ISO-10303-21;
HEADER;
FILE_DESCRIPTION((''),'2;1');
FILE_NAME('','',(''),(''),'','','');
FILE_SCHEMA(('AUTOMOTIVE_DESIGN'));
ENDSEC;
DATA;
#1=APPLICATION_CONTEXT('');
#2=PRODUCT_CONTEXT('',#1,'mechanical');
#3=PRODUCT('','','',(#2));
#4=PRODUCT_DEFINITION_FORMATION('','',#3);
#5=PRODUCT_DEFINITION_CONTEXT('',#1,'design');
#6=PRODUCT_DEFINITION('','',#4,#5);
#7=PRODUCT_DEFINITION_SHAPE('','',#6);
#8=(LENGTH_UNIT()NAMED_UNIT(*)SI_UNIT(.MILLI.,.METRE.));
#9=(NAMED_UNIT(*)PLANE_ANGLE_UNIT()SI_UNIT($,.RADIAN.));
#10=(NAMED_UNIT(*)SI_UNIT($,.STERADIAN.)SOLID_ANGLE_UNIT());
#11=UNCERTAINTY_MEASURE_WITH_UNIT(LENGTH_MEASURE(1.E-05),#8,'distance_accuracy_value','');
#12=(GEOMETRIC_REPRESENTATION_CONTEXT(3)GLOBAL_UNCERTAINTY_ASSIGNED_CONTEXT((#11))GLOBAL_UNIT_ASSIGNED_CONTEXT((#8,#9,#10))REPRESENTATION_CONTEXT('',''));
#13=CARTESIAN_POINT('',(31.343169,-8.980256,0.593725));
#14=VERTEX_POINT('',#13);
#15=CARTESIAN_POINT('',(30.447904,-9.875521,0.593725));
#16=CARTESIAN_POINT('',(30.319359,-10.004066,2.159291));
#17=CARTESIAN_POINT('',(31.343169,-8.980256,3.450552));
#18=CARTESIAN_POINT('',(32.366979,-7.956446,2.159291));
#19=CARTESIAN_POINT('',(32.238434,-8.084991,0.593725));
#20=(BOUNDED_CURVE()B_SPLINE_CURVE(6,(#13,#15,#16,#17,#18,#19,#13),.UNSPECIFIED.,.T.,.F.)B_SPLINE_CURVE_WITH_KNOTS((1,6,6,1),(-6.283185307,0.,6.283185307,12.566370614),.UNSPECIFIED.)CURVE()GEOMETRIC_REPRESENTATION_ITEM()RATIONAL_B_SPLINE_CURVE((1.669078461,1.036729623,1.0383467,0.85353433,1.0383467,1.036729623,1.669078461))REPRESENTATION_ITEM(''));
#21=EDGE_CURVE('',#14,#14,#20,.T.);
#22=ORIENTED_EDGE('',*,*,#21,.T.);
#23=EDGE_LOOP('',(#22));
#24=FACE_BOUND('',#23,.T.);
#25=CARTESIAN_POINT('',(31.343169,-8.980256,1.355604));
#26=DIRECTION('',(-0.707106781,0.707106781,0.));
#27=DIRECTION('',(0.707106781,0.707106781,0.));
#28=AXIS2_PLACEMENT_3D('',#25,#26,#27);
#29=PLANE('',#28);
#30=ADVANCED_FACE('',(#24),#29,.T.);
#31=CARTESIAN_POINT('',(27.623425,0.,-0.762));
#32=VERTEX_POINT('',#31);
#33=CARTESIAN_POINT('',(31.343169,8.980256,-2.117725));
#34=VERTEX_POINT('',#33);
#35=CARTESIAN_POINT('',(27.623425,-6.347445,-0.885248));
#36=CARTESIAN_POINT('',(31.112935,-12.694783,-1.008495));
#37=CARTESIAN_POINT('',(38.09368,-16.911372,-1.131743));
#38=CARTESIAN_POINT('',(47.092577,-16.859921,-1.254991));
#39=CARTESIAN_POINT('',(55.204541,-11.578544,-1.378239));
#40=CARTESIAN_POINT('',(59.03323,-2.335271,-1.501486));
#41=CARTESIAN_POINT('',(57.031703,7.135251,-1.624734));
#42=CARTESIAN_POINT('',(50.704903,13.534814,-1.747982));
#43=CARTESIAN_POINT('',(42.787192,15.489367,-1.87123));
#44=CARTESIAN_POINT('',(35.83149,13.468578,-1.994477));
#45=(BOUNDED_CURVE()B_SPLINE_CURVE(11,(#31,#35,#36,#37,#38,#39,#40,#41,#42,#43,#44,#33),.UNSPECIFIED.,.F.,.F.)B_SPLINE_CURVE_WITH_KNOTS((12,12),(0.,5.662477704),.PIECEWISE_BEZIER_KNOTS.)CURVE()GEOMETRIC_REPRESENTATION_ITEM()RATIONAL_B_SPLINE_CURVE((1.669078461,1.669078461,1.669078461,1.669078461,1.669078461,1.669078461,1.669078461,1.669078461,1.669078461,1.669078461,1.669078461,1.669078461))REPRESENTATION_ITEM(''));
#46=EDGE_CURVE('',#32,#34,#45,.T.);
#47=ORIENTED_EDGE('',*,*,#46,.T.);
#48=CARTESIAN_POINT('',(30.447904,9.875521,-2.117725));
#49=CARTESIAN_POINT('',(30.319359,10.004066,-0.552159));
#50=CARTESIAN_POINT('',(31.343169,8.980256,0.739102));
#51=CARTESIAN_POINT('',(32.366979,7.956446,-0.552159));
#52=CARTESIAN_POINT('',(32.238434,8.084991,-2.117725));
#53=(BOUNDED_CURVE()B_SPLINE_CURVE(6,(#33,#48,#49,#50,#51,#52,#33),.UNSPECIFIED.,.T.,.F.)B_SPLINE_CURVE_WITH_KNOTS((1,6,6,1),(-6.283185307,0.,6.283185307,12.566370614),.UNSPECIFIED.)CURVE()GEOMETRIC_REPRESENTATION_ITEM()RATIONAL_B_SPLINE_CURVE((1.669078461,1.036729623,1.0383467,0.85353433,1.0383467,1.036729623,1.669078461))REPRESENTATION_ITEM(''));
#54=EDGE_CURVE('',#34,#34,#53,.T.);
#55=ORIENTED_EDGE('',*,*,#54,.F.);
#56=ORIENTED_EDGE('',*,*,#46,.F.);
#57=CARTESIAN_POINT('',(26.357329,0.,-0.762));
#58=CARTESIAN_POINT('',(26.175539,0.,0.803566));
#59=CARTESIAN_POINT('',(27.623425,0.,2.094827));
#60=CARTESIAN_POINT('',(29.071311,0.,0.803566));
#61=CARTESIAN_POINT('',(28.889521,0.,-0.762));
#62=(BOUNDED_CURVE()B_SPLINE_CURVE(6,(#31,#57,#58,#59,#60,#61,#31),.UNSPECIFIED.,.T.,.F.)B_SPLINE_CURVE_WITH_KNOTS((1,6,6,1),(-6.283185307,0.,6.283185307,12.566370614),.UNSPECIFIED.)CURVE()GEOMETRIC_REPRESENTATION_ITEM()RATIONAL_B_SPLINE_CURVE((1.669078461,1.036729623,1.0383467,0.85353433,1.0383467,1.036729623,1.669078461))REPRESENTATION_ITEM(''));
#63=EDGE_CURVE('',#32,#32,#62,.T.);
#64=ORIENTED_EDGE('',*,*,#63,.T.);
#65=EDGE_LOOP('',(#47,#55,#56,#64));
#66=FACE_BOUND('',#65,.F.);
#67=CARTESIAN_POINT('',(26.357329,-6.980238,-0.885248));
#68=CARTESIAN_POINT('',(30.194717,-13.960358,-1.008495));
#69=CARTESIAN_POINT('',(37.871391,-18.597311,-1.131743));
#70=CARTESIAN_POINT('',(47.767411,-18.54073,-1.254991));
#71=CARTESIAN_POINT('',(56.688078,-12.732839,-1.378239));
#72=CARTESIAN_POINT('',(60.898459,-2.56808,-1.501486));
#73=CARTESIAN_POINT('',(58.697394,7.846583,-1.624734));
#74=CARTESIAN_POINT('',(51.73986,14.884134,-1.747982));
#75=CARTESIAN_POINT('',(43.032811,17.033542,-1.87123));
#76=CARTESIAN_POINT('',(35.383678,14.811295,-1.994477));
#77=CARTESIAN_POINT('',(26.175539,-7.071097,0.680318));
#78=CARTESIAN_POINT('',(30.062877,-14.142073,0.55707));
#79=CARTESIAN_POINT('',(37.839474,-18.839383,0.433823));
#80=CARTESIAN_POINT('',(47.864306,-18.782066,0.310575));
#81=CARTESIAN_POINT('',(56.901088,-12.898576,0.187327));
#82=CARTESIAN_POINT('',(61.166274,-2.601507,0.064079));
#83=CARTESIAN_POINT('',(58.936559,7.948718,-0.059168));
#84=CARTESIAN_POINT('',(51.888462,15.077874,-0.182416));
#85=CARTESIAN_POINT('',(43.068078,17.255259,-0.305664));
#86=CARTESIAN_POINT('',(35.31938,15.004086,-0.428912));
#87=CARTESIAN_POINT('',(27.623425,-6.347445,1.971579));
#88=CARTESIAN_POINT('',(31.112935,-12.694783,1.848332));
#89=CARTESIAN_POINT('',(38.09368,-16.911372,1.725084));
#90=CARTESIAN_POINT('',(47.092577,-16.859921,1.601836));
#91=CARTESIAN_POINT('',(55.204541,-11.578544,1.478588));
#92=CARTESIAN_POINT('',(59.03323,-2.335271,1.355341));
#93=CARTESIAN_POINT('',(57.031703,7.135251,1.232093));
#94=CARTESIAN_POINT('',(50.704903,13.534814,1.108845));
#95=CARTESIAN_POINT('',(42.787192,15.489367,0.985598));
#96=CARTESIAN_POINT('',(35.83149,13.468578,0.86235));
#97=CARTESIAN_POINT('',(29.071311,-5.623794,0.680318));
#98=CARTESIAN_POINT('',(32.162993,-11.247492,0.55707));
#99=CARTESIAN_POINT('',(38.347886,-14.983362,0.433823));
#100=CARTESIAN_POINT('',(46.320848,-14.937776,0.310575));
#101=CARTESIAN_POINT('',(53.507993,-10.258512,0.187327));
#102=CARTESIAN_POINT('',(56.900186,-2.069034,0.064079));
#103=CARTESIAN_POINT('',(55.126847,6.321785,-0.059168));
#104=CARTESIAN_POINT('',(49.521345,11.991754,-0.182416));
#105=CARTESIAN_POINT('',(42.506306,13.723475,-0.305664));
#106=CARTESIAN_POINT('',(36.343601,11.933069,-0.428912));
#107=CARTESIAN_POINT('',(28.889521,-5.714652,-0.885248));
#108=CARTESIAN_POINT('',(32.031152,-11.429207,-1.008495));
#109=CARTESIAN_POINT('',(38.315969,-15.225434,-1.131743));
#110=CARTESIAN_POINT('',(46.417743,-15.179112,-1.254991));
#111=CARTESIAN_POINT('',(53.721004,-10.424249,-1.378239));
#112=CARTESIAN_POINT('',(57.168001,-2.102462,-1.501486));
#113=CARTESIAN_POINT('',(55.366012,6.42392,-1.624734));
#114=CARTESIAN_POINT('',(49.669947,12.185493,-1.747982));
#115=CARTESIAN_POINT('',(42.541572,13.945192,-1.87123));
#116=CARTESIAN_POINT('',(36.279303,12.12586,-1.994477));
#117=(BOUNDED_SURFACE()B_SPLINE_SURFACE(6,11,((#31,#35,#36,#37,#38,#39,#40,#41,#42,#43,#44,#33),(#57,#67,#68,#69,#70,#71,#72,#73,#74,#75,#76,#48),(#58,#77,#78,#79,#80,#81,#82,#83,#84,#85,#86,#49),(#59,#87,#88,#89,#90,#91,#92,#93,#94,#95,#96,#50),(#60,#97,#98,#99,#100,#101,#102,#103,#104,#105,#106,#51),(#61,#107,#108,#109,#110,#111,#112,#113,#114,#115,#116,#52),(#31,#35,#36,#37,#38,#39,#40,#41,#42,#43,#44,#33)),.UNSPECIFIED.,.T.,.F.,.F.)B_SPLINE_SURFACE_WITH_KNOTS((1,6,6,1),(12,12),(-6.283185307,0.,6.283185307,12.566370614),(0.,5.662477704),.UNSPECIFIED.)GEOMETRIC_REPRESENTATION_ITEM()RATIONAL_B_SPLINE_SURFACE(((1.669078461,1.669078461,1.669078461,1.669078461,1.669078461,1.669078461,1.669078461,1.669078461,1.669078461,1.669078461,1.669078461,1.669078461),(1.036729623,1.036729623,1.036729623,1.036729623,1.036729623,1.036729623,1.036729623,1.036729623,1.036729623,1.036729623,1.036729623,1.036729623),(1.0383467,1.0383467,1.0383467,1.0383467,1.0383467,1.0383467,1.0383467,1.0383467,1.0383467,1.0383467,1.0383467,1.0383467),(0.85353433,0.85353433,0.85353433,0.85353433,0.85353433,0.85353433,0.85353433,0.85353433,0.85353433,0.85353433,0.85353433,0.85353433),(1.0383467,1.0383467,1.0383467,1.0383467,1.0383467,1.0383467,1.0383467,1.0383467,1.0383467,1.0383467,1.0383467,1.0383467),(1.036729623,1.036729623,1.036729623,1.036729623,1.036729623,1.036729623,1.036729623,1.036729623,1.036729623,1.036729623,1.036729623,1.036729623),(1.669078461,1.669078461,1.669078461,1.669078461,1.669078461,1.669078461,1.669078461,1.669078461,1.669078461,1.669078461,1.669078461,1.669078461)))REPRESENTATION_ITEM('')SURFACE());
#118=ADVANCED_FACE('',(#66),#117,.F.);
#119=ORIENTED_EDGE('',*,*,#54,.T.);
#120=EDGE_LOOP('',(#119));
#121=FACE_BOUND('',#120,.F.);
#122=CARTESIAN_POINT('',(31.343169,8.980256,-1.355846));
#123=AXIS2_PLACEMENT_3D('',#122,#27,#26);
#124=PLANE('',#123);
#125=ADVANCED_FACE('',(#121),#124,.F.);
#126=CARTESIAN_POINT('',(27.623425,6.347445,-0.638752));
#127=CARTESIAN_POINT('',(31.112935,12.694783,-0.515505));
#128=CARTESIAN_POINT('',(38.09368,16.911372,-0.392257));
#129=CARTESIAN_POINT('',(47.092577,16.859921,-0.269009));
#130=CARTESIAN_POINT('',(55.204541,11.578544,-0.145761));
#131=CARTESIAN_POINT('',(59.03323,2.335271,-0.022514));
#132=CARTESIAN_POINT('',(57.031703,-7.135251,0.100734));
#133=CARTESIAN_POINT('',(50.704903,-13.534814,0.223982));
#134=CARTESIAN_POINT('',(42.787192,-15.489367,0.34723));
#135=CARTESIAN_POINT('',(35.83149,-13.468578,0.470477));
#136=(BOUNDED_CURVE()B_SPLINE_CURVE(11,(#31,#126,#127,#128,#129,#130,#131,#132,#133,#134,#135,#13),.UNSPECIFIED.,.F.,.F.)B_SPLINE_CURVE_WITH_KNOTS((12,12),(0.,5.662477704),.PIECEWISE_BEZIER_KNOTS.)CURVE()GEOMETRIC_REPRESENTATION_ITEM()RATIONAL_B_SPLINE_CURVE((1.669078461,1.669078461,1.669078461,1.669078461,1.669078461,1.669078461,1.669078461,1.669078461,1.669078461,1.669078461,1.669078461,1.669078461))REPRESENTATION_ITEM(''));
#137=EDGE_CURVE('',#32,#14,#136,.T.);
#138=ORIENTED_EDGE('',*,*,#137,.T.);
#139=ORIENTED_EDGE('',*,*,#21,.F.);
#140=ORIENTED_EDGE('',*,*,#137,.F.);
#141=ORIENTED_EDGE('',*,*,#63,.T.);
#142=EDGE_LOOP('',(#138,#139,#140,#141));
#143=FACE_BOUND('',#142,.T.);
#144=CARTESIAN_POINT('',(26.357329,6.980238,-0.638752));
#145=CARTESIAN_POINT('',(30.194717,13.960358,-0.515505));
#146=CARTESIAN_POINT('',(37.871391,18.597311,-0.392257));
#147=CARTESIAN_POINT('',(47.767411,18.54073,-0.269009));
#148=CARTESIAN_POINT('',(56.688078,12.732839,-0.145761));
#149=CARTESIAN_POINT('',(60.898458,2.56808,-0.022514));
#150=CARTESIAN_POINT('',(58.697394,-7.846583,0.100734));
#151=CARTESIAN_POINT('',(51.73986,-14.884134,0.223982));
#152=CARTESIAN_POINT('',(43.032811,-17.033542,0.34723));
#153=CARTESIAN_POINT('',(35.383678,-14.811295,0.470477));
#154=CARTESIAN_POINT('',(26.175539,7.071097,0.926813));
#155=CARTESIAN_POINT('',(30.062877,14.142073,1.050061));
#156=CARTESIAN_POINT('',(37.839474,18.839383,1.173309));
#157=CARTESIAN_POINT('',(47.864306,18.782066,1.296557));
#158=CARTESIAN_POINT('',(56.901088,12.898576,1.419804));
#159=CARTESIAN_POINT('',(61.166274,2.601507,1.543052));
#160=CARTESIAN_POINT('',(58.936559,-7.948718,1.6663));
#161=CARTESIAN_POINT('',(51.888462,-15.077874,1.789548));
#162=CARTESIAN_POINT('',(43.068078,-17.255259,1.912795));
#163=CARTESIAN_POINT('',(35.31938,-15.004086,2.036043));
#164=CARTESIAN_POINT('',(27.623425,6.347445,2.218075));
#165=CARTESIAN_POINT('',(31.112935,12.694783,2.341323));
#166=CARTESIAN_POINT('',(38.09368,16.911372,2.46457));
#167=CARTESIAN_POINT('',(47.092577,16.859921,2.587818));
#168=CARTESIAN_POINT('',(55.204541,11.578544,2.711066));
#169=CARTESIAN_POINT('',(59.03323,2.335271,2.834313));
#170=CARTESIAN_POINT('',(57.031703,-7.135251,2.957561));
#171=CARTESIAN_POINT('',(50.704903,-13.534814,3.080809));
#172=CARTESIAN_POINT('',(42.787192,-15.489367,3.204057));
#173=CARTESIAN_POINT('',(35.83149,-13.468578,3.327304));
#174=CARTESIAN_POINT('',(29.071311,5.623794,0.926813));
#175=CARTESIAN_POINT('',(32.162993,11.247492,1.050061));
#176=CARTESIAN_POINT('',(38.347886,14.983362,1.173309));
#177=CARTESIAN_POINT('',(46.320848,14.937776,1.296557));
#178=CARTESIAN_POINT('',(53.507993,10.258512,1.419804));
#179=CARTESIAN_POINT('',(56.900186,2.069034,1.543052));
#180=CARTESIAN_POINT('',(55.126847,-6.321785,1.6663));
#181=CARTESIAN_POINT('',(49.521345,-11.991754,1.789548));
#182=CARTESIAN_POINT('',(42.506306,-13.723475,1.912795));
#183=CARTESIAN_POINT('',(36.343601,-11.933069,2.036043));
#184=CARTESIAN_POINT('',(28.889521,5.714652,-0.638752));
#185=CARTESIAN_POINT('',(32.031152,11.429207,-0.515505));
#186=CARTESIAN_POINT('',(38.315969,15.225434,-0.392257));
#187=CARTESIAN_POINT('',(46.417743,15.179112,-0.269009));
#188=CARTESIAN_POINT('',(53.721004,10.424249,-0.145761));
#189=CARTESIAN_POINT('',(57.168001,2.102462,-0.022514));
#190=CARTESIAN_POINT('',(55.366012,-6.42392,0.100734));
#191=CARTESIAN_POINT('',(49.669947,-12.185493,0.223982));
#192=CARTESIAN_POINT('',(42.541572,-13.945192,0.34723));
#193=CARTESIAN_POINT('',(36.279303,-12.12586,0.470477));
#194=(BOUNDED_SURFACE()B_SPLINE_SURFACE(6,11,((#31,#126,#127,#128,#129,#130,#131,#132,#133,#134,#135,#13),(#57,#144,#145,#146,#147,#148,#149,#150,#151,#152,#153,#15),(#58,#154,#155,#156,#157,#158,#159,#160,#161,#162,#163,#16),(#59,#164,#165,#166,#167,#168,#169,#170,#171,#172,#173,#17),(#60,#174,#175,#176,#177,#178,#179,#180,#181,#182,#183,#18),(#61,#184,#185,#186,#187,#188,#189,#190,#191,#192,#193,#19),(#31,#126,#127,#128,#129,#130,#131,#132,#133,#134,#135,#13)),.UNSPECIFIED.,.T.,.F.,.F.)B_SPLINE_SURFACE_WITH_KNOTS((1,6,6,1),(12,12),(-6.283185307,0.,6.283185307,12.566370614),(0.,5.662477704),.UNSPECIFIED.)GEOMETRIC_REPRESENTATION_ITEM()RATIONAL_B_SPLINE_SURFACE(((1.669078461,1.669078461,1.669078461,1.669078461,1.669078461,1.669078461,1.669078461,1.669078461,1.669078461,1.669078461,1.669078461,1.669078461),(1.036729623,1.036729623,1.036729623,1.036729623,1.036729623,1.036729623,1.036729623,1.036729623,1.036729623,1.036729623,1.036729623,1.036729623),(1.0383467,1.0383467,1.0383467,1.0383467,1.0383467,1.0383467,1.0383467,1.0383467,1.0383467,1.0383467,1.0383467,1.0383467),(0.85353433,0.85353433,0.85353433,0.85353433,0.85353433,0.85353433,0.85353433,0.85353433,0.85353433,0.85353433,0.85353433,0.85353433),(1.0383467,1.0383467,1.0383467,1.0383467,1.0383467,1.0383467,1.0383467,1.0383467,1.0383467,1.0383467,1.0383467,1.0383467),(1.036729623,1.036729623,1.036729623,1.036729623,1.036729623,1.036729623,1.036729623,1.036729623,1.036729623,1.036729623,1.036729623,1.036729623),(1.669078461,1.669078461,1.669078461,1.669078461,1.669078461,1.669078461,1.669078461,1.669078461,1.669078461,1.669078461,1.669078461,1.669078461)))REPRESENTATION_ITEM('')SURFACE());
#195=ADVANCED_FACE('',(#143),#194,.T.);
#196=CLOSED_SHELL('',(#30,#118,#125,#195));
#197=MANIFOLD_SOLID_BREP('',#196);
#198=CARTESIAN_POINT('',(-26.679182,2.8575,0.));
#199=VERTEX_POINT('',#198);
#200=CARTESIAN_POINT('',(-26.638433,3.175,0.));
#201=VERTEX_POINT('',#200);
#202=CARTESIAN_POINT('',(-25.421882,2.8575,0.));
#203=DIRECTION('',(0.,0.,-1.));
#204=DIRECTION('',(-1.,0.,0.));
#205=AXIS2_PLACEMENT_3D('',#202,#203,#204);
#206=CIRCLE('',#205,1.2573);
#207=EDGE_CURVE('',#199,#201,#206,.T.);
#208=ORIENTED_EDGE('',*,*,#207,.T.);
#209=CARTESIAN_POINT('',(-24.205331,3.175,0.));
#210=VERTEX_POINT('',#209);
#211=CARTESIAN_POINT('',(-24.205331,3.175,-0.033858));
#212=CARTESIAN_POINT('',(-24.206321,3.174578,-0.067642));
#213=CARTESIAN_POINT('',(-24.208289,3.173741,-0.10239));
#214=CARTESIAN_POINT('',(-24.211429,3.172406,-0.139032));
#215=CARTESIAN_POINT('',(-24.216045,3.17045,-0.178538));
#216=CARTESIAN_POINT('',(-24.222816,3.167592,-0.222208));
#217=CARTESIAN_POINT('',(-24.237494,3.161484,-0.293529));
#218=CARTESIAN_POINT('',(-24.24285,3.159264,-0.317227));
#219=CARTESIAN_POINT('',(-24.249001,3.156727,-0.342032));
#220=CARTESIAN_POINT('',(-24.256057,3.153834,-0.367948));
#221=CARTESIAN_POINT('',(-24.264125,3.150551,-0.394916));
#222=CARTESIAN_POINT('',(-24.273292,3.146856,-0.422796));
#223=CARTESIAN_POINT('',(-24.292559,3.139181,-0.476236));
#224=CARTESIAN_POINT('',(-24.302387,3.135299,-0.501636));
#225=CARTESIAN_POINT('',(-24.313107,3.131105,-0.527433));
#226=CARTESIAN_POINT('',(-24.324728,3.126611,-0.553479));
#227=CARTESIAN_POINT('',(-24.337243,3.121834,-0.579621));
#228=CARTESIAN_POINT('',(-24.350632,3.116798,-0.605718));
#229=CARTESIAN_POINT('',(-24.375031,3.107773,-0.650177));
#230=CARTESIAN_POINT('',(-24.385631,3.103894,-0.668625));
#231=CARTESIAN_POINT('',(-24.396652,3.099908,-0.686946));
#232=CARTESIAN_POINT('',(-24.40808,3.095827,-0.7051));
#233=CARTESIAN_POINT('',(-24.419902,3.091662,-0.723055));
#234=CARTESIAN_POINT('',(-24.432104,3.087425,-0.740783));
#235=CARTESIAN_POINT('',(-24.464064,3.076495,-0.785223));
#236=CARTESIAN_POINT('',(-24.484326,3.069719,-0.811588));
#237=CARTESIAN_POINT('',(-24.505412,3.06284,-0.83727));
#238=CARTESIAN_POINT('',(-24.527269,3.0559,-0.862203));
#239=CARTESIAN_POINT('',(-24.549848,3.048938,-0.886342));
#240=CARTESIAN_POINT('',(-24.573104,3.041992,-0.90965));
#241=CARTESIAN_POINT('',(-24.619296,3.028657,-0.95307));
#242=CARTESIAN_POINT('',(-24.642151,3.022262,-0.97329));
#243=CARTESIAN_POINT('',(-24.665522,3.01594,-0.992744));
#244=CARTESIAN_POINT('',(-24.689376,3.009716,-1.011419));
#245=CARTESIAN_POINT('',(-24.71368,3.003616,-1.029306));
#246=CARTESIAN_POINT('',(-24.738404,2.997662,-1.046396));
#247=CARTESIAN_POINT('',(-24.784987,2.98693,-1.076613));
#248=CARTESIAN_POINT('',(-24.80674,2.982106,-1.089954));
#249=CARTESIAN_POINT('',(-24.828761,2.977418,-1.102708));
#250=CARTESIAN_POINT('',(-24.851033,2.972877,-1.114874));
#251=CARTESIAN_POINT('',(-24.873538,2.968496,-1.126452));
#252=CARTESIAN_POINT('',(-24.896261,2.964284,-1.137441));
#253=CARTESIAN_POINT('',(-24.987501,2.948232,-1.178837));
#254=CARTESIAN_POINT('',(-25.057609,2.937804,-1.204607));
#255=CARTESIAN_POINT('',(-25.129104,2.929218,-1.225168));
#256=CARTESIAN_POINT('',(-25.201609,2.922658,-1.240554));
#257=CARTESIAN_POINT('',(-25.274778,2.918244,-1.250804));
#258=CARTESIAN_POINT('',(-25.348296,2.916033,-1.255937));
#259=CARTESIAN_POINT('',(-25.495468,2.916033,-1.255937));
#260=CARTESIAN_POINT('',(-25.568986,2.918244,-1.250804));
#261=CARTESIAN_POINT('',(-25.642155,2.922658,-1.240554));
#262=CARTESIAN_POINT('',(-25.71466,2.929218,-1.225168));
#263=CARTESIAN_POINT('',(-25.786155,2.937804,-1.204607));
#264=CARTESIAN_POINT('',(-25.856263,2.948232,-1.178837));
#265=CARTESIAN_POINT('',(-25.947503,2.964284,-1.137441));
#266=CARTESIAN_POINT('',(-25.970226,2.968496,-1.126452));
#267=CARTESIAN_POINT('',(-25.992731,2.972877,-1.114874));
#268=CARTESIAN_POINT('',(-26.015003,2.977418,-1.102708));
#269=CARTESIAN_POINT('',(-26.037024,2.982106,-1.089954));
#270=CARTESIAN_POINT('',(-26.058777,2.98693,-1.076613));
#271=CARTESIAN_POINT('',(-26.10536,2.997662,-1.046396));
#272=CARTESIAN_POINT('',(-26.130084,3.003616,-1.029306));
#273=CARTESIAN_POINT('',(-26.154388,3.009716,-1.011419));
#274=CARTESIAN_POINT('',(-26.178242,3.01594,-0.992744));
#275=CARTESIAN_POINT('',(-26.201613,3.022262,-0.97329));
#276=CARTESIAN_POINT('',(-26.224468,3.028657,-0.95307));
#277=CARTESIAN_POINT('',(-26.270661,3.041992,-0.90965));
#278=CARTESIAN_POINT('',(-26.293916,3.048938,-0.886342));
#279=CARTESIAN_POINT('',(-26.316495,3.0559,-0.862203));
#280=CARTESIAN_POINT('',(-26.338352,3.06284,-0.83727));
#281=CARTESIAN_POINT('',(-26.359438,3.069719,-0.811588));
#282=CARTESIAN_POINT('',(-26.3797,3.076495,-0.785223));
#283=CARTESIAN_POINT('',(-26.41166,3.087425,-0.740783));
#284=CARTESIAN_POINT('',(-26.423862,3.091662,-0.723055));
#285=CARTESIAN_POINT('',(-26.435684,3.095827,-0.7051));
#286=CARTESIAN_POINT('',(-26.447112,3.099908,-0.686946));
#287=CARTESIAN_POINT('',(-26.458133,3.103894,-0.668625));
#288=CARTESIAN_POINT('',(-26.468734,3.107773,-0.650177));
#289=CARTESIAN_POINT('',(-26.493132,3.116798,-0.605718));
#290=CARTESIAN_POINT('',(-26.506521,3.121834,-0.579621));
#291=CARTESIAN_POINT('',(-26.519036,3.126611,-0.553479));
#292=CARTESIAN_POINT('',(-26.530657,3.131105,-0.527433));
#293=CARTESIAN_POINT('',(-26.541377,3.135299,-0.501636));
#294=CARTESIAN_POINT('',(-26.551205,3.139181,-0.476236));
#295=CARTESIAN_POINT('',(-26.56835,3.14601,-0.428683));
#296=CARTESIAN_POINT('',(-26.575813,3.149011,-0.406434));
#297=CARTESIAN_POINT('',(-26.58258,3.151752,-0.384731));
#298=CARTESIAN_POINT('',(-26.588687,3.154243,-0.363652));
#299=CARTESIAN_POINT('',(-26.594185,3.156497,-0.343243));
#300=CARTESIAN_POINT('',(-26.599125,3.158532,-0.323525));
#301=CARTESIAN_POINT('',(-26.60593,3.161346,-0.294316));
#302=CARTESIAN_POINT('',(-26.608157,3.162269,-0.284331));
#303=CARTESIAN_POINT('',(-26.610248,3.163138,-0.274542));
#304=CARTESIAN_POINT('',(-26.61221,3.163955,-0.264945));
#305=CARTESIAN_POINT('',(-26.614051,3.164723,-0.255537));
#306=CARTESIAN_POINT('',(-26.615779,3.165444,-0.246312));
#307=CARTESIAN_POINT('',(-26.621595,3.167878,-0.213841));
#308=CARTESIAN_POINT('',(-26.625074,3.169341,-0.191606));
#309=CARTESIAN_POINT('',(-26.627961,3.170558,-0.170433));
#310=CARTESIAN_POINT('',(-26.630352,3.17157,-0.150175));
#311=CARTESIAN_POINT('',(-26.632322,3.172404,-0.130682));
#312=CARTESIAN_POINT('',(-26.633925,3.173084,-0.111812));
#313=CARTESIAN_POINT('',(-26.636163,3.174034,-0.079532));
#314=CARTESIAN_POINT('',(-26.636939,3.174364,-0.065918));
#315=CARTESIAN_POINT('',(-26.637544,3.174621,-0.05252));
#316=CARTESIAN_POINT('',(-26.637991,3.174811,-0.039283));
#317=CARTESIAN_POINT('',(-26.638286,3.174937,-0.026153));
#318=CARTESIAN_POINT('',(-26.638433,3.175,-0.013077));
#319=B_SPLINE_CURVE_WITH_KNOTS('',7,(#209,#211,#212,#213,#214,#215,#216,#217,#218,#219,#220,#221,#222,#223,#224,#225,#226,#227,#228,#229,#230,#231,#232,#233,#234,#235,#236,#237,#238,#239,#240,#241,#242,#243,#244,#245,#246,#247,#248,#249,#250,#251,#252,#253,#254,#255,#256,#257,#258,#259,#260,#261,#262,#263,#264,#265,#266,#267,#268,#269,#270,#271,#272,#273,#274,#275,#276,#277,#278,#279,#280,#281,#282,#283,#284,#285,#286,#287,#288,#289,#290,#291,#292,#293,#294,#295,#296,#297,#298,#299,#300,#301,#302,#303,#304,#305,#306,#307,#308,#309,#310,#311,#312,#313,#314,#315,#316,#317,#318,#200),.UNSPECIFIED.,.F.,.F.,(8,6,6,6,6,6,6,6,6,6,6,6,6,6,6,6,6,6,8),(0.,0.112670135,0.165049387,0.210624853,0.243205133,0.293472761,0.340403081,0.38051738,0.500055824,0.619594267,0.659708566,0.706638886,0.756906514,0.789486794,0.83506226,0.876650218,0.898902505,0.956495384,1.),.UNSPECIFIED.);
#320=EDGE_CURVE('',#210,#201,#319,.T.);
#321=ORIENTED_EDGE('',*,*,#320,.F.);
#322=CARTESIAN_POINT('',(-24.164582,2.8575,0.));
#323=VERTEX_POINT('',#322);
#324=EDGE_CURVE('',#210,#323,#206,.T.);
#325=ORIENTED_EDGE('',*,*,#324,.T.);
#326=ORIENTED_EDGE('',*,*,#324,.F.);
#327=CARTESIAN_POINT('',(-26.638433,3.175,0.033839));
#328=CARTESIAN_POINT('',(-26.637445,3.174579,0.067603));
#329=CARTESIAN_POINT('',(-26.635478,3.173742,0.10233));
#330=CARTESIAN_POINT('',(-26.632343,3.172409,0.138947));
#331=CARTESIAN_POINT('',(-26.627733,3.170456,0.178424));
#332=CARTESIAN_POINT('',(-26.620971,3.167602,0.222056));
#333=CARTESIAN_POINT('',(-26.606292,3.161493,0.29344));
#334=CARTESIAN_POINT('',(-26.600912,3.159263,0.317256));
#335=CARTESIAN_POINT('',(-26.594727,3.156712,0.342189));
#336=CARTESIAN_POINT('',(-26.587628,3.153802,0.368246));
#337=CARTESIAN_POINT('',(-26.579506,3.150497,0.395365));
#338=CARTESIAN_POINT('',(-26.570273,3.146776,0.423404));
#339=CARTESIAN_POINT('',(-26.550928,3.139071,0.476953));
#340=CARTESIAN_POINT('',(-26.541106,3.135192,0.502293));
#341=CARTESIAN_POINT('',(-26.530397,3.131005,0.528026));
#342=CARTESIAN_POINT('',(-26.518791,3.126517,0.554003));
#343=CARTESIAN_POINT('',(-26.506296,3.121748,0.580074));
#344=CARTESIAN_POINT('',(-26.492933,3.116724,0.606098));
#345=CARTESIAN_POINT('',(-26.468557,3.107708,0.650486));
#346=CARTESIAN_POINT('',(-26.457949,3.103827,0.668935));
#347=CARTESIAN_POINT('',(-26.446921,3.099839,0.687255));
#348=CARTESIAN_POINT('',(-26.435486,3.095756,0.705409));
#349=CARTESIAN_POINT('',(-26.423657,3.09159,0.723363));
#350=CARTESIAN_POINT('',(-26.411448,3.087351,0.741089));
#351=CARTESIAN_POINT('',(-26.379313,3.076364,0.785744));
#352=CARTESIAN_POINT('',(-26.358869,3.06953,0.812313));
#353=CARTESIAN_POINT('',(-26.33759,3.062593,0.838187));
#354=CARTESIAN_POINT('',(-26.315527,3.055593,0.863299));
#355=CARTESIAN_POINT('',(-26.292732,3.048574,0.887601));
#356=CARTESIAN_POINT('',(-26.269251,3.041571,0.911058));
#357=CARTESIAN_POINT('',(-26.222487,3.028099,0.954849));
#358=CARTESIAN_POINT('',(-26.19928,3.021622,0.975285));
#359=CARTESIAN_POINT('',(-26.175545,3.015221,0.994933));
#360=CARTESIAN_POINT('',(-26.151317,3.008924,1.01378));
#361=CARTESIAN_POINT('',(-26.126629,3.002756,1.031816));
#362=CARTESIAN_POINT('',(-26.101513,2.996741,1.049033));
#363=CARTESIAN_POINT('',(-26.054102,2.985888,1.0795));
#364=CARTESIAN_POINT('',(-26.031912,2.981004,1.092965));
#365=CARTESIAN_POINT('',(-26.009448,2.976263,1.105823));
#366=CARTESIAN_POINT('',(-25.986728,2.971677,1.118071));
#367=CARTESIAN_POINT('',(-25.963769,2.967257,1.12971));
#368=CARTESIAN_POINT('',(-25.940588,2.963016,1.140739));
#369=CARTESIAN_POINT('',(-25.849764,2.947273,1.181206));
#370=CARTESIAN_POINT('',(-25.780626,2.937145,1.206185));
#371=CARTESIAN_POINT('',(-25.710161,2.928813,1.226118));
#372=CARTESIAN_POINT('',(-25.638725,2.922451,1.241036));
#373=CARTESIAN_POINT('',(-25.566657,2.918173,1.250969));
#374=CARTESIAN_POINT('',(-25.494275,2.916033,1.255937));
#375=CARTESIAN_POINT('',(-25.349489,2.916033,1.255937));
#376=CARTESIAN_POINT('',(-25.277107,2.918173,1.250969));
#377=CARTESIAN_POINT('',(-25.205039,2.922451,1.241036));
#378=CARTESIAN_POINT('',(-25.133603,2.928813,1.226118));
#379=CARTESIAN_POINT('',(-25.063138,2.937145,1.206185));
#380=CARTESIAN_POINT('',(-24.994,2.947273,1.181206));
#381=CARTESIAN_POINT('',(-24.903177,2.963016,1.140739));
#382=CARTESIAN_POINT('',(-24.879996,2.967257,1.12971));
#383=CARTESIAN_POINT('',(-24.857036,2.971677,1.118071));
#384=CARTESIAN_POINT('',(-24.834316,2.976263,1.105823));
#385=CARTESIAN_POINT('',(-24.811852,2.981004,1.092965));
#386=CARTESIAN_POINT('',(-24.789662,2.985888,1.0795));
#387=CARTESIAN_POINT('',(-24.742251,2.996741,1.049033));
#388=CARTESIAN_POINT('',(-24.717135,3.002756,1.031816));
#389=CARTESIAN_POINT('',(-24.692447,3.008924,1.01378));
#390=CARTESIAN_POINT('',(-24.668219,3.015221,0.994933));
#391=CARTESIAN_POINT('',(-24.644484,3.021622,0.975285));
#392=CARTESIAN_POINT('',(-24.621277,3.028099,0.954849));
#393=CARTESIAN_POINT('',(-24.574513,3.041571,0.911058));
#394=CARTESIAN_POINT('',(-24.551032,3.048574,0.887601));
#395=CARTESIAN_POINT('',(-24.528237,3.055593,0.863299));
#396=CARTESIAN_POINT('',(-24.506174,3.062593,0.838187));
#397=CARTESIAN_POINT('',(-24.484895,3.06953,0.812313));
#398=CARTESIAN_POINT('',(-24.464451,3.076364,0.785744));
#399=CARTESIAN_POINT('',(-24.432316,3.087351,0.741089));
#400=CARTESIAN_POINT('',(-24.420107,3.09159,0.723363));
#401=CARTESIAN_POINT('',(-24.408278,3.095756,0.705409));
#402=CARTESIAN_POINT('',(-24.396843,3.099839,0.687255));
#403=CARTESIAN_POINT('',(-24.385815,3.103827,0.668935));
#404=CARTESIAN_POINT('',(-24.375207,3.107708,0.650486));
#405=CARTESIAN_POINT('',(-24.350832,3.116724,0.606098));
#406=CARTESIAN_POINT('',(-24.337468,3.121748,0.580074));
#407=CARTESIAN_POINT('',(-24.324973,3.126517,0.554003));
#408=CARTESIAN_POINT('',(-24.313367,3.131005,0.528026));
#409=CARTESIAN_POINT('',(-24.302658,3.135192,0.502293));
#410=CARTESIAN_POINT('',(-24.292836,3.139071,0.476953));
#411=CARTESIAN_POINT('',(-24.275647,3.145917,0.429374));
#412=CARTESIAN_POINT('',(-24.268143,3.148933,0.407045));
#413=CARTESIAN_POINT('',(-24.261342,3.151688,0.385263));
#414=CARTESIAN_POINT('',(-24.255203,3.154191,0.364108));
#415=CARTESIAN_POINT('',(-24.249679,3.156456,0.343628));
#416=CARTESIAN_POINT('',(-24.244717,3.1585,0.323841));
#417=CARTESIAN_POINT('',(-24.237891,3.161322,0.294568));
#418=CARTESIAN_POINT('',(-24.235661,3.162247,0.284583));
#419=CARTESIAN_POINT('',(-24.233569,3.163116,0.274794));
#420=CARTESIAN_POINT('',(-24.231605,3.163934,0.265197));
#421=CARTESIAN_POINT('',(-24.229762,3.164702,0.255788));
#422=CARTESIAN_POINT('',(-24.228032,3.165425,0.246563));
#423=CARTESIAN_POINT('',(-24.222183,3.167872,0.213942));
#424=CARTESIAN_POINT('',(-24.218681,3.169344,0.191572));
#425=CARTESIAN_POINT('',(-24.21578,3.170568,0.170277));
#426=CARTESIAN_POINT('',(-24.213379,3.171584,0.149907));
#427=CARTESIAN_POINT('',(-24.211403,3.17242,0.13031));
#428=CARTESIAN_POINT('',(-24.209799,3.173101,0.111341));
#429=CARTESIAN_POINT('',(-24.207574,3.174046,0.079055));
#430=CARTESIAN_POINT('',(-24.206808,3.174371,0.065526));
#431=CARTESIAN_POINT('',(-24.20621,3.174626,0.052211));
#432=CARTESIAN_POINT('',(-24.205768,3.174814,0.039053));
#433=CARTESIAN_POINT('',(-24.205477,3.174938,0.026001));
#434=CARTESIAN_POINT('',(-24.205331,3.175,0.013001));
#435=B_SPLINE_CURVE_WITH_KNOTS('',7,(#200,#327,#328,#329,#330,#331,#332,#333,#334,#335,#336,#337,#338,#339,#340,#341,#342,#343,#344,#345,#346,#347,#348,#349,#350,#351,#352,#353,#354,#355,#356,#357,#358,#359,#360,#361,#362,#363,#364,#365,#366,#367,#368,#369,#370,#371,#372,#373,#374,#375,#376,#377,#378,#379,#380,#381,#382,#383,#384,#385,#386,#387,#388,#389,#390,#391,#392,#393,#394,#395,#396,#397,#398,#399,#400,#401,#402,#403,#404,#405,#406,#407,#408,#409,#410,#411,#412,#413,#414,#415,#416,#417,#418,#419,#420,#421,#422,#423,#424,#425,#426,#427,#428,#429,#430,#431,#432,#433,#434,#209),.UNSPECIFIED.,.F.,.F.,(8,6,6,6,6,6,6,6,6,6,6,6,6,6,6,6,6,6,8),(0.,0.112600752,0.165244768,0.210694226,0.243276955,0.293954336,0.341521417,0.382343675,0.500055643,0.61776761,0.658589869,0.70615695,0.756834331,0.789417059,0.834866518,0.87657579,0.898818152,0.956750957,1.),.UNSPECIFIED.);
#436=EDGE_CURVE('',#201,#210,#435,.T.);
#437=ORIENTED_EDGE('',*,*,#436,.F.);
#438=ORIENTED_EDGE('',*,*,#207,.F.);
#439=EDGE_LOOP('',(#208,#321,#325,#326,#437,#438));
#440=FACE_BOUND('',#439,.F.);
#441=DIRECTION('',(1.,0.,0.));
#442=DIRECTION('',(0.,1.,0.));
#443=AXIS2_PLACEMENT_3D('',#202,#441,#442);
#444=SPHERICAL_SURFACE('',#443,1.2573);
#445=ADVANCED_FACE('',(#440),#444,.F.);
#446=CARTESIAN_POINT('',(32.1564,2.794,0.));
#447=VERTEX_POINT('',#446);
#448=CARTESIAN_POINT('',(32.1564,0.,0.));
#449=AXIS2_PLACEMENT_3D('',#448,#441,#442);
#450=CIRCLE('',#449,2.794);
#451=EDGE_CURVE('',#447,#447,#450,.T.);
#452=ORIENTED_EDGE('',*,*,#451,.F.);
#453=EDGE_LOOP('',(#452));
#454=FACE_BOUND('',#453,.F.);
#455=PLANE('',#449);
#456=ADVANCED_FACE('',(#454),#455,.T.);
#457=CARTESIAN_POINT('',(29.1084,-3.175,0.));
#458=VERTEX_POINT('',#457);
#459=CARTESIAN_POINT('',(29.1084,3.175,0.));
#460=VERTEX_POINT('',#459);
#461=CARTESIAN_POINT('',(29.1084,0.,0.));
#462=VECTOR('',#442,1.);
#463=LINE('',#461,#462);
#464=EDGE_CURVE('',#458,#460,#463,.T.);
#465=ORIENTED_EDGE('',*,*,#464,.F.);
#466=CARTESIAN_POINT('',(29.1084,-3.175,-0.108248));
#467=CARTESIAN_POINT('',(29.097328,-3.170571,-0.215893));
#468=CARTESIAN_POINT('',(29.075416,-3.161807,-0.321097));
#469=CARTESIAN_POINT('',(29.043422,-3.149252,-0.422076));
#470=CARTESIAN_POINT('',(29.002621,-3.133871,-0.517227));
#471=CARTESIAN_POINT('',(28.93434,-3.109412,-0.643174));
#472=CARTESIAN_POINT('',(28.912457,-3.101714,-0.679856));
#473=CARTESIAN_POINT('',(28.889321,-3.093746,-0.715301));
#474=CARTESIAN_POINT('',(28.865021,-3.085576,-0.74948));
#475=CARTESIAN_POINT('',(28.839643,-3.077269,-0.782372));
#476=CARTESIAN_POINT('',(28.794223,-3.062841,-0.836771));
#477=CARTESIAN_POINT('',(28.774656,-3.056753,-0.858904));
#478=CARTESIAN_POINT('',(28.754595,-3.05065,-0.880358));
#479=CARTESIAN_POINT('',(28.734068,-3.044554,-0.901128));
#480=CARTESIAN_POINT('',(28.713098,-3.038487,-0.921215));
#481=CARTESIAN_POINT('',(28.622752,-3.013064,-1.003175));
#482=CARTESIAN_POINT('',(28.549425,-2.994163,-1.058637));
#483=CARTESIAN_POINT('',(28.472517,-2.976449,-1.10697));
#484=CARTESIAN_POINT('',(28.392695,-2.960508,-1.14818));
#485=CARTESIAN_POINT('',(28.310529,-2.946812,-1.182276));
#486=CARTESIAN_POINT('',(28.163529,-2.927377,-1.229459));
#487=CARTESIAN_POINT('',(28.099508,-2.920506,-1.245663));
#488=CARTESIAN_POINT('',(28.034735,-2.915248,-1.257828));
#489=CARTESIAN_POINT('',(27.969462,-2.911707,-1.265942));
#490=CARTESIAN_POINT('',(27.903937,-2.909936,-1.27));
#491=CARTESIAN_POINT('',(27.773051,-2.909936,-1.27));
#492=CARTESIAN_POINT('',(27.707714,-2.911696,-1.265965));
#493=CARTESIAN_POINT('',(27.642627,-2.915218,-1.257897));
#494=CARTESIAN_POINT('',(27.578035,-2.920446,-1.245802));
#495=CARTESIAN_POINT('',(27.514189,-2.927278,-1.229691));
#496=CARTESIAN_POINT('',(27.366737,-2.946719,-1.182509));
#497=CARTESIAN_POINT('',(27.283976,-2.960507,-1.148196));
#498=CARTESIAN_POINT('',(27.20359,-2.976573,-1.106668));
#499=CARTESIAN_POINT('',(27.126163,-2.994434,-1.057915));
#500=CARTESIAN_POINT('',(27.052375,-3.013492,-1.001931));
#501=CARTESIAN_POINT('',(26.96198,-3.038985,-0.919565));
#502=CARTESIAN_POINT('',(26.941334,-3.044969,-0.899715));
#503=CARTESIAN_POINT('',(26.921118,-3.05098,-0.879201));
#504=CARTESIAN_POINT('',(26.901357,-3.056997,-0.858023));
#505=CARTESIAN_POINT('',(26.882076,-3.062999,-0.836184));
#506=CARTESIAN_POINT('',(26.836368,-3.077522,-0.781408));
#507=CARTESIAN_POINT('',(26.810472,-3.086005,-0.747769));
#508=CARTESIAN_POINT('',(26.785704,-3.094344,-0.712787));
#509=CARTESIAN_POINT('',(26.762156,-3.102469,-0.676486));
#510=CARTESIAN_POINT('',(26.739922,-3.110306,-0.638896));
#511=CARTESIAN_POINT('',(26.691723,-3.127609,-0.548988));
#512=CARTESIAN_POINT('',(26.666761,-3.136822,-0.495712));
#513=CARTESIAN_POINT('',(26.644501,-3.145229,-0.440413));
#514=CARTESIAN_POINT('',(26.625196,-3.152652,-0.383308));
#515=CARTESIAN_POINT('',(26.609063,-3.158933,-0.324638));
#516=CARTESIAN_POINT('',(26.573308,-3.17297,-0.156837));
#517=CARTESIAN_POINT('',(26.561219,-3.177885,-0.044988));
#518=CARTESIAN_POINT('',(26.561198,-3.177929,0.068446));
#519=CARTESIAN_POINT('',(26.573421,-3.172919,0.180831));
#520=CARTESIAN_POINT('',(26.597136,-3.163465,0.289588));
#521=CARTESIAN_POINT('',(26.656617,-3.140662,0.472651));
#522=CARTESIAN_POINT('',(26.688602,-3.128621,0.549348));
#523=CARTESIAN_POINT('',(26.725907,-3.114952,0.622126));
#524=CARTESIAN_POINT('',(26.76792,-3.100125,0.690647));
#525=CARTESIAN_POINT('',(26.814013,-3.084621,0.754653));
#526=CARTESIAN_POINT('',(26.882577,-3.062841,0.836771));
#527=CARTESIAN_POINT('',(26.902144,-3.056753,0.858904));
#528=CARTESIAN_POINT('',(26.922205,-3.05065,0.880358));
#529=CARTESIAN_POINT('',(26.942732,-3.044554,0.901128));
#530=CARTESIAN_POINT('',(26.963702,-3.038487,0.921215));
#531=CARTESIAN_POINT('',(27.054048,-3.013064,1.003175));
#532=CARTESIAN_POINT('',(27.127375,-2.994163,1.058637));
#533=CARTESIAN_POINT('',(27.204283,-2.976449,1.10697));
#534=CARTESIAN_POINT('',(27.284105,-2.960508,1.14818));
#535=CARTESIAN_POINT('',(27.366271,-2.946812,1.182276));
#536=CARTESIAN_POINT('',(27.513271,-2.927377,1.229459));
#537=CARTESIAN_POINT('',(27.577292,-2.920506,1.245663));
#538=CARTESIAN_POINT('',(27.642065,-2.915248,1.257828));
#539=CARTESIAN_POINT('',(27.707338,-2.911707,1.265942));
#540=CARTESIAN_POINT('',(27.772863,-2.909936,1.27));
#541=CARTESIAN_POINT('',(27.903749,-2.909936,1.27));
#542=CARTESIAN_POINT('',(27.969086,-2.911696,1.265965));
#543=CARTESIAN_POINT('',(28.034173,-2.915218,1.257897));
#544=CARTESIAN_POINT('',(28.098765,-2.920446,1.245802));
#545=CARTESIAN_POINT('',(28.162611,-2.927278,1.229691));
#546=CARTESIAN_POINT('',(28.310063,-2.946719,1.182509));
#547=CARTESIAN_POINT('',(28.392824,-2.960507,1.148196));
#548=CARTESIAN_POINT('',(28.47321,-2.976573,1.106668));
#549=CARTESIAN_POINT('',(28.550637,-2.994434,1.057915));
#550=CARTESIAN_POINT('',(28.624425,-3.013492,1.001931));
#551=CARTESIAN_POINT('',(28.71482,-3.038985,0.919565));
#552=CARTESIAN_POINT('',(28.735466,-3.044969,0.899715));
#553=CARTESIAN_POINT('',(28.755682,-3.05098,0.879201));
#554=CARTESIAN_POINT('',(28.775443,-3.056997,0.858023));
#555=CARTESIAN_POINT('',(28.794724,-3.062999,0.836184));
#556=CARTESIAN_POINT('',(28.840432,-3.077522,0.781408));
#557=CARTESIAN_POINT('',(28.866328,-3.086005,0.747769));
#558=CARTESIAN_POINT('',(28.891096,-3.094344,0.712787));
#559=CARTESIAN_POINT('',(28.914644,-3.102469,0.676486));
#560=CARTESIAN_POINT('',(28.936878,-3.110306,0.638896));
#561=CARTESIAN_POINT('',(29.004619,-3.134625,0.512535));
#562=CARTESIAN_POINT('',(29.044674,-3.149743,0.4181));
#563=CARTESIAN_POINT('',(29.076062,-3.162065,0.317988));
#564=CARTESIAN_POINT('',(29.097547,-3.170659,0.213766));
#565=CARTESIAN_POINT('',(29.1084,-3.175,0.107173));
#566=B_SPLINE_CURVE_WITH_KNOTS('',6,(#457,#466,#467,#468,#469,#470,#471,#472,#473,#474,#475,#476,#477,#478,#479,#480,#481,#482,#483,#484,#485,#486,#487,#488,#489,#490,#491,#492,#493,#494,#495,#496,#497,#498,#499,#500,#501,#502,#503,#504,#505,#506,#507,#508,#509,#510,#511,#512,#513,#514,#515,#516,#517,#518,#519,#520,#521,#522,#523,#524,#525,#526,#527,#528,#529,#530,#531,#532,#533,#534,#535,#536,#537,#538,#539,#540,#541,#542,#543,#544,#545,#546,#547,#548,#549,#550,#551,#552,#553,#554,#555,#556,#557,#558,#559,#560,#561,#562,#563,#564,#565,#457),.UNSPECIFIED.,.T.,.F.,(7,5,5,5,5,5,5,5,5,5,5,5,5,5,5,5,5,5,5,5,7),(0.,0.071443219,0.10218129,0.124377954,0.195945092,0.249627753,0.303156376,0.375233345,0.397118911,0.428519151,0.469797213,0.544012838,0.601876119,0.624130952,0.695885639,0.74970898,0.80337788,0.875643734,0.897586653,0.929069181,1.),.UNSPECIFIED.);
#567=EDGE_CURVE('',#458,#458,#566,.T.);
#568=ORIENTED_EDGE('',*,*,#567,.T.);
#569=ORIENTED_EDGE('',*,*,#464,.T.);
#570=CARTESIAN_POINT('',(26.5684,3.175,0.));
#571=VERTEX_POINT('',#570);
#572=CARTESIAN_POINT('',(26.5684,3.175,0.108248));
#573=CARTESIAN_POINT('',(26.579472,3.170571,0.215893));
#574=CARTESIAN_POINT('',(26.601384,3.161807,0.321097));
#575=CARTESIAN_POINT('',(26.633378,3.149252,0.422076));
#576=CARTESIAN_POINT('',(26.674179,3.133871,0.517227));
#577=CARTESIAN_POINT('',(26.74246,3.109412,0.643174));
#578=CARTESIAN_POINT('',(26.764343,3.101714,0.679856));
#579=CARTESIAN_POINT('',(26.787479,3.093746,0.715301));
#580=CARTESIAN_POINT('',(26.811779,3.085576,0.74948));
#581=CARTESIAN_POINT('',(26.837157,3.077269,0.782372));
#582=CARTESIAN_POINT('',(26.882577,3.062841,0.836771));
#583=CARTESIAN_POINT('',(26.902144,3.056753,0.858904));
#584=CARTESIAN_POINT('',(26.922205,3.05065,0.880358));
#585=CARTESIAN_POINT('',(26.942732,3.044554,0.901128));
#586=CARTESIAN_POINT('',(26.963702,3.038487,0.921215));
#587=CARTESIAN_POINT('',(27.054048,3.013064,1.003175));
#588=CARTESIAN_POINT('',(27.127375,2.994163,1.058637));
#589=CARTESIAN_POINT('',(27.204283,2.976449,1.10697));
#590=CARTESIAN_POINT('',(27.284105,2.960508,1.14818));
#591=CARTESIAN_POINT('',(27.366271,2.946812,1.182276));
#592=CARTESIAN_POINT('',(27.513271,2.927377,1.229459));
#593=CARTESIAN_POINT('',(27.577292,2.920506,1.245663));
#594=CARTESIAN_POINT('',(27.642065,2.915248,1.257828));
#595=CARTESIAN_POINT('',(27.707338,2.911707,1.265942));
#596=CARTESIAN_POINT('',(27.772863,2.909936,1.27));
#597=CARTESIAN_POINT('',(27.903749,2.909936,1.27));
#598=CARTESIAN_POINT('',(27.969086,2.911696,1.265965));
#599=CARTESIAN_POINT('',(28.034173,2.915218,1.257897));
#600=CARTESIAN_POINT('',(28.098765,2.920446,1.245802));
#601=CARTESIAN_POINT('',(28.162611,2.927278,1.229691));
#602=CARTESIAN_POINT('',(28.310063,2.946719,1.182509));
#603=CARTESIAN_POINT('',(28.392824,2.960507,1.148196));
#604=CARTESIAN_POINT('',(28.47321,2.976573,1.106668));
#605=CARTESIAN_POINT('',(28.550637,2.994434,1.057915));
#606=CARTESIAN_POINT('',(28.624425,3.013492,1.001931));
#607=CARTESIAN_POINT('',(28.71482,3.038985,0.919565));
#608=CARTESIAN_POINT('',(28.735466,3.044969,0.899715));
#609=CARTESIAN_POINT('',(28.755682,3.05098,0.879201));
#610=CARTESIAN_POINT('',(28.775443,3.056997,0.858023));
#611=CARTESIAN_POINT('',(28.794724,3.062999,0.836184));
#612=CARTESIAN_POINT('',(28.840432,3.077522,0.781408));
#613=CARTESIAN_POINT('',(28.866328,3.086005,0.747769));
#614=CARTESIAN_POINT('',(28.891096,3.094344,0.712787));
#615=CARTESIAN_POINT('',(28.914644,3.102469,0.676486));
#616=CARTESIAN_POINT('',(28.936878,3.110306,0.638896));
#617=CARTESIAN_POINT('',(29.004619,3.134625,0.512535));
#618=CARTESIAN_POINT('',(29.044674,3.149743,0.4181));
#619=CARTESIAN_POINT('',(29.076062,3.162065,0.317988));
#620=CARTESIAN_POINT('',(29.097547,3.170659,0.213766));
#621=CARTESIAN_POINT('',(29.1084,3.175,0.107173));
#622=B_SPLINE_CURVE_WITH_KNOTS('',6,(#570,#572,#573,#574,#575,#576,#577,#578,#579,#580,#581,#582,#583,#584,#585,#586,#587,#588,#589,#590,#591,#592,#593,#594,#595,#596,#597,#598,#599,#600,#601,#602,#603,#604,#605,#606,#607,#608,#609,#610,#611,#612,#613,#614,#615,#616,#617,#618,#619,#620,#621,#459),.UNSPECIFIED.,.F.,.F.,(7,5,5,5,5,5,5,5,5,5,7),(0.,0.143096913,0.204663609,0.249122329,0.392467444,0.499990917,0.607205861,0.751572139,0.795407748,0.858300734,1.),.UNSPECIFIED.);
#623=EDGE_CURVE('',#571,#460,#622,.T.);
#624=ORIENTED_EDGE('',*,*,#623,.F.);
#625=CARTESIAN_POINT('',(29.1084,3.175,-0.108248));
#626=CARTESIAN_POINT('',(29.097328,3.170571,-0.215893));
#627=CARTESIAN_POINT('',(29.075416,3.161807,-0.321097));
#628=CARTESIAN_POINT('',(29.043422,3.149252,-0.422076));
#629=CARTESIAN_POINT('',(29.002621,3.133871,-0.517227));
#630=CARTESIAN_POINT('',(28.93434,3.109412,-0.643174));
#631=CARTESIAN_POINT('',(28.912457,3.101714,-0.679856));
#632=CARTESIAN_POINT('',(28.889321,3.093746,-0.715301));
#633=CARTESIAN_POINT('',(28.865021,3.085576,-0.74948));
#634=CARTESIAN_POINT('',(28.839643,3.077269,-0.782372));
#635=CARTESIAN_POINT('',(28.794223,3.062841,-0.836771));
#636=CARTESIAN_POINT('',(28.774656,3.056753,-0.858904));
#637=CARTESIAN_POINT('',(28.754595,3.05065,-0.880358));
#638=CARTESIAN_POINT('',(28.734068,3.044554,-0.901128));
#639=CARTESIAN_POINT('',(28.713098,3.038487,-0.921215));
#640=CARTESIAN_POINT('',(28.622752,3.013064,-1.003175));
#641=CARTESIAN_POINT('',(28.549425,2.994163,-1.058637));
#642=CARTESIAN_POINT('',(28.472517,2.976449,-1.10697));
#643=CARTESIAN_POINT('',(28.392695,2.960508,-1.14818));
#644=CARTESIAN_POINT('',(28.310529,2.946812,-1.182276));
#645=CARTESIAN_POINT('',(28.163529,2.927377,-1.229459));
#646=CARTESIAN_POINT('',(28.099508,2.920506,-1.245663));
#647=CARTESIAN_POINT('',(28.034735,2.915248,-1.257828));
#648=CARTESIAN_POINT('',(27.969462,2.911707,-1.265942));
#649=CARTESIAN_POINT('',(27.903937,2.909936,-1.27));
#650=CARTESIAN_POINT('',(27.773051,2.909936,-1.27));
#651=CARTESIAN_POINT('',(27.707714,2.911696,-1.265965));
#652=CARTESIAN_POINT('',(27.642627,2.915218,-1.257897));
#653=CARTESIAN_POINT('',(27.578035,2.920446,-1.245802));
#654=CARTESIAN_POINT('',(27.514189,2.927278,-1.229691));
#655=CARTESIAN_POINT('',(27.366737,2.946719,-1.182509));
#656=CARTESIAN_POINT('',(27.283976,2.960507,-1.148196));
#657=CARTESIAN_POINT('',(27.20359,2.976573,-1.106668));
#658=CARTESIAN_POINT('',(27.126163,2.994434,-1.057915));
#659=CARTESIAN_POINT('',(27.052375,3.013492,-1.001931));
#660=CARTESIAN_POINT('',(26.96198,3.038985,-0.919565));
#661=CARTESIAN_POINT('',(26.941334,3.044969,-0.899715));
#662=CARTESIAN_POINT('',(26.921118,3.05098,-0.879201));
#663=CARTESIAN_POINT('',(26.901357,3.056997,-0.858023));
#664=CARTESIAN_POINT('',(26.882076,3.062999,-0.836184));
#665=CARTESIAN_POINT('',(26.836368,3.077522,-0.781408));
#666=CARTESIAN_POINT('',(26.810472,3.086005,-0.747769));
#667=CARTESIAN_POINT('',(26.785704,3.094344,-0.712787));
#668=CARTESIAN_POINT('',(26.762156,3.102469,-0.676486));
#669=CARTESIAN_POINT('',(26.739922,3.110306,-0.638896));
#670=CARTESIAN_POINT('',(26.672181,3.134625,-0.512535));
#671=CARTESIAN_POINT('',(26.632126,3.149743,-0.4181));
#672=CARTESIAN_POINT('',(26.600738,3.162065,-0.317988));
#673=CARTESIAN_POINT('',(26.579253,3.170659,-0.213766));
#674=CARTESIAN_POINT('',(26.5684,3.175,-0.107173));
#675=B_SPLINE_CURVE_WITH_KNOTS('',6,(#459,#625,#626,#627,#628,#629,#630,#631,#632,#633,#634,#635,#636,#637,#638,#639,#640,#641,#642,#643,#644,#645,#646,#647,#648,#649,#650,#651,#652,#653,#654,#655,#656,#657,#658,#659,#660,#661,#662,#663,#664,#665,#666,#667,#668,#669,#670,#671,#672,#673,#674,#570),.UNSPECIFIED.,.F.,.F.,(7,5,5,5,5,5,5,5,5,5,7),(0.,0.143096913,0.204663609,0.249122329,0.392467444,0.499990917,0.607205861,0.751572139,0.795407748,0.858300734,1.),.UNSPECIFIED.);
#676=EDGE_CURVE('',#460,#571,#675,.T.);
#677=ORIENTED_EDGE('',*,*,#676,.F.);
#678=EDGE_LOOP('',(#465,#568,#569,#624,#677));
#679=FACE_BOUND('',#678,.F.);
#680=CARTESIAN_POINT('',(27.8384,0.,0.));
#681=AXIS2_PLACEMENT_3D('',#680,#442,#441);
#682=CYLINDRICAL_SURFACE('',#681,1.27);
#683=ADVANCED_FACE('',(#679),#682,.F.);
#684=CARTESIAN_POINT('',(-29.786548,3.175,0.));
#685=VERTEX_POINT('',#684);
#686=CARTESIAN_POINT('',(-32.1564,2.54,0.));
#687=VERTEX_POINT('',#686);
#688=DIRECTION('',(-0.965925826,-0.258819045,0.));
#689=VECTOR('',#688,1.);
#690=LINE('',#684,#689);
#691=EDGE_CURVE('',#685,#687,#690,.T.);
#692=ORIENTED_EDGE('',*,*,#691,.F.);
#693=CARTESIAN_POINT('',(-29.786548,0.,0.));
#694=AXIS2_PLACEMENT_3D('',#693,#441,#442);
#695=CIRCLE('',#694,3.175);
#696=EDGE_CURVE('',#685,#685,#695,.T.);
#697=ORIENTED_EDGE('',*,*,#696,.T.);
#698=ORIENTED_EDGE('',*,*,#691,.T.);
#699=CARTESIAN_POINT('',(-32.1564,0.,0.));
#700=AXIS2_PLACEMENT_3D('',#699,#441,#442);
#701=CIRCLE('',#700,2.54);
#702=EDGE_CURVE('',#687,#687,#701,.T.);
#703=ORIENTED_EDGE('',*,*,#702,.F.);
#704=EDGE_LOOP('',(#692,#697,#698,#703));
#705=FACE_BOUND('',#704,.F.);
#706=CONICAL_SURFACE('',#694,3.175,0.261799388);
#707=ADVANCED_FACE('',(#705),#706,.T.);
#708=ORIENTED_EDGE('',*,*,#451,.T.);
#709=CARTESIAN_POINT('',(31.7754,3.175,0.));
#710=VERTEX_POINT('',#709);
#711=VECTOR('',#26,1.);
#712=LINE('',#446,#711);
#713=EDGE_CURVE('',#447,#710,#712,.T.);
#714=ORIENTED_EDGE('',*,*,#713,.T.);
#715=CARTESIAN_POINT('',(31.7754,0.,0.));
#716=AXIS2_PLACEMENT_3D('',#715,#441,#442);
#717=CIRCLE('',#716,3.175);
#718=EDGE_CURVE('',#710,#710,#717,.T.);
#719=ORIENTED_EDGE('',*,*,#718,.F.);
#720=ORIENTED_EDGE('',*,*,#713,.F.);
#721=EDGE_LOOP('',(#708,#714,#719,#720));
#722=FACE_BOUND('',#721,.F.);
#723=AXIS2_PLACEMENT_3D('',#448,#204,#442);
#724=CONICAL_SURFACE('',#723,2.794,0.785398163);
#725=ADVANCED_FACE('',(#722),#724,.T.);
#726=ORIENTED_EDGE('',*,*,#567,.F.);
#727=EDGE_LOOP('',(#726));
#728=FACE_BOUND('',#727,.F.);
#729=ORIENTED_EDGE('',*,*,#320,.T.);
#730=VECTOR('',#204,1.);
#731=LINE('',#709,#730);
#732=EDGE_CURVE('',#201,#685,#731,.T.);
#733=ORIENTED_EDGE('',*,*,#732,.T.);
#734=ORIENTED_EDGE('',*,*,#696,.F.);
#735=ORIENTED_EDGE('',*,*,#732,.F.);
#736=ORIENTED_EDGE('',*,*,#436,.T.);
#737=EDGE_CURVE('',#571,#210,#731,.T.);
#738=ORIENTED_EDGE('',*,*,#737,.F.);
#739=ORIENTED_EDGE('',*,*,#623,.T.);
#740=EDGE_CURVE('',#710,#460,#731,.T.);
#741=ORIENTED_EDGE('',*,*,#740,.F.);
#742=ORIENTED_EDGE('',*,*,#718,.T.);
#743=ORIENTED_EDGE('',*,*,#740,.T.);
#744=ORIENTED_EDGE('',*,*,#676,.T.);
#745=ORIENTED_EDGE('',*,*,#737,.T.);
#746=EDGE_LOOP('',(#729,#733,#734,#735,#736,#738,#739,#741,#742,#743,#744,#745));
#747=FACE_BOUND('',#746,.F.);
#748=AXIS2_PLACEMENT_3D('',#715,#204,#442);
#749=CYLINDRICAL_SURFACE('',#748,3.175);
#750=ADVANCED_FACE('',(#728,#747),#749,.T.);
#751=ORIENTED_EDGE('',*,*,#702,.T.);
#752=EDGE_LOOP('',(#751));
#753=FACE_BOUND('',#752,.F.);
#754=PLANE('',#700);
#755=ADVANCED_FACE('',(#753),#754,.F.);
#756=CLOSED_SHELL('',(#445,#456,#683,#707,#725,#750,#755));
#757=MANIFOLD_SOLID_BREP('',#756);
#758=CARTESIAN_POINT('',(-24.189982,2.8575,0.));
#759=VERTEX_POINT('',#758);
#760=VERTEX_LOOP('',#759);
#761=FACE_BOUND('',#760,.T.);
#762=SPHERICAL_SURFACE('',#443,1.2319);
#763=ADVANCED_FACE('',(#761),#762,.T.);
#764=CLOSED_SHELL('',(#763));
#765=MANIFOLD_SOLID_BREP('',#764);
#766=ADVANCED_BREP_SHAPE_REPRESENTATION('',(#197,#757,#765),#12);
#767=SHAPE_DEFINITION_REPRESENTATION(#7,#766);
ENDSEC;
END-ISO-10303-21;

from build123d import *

# Parameters (mm, degrees)
SKETCH4_W          = 1.27
SKETCH4_H          = 6.35
SWEEP1_PITCH       = 1.5494
SWEEP1_HEIGHT      = 1.355725
SWEEP1_RADIUS      = 13.462
SKETCH6_R          = 0.762
SWEEP2_PITCH       = 1.5494
SWEEP2_HEIGHT      = 1.355725
SWEEP2_RADIUS      = 13.462
SWEEP2_START_ANGLE = -180
SKETCH6_2_R        = 0.762


with BuildPart() as part:
    # Sketch1 → Revolve1 (revolve)
    with BuildSketch(Plane.XY):
        Polygon((32.1564, 2.794), (31.7754, 3.175), (-29.786547737, 3.175), (-32.1564, 2.54), (-32.1564, 0), (32.1564, 0), align=None)
    revolve(axis=Axis((32.1564, 0, 0), (1, 0, 0)))

    # Sketch2 → Cut-Revolve1 (revolve, cut)
    with BuildSketch(Plane.XY):
        with BuildLine():
            Line((-24.164582051, 2.8575), (-26.679182051, 2.8575))
            ThreePointArc((-26.679182051, 2.8575), (-25.421882051, 4.1148), (-24.164582051, 2.8575))
        make_face()
    revolve(axis=Axis((-24.164582051, 2.8575, 0), (1, 0, 0)), mode=Mode.SUBTRACT)

    # Sketch4 → Cut-Revolve2 (revolve, cut)
    with BuildSketch(Plane.XY):
        with Locations((28.4734, 0)):
            Rectangle(SKETCH4_W, SKETCH4_H)
    revolve(axis=Axis((27.8384, -3.175, 0), (0, 1, 0)), mode=Mode.SUBTRACT)


with BuildPart() as body_2:
    # Sketch3 → Revolve2 (revolve)
    with BuildSketch(Plane.XY):
        with BuildLine():
            Line((-24.189982051, 2.8575), (-26.653782051, 2.8575))
            ThreePointArc((-26.653782051, 2.8575), (-25.421882051, 4.0894), (-24.189982051, 2.8575))
        make_face()
    revolve(axis=Axis((-24.189982051, 2.8575, 0), (1, 0, 0)))


with BuildPart() as body_3:
    # Sweep1: sweep along a helix
    with BuildLine() as sweep1_path:
        Helix(SWEEP1_PITCH, SWEEP1_HEIGHT, SWEEP1_RADIUS, center=(40.323425091, 0, 0), direction=(0, 0, -1), lefthand=True)
    # Sketch6 → Sweep1 (sweep)
    with BuildSketch(Plane(origin=(114.003847968, 0, 0), x_dir=(0, 0, -1), z_dir=(0, 1, 0))):
        with Locations((0, 86.380422877)):
            Circle(SKETCH6_R)
    sweep(path=sweep1_path.line, is_frenet=True)

    # Sweep2: sweep along a helix
    with BuildLine() as sweep2_path:
        add(Helix(SWEEP2_PITCH, SWEEP2_HEIGHT, SWEEP2_RADIUS, center=(40.323425091, 0, 0), direction=(0, 0, 1), lefthand=True, mode=Mode.PRIVATE).rotate(Axis((40.323425091, 0, 0), (0, 0, 1)), SWEEP2_START_ANGLE))
    # Sketch6<2> → Sweep2 (sweep)
    with BuildSketch(Plane(origin=(114.003847968, 0, 0), x_dir=(0, 0, -1), z_dir=(0, 1, 0))):
        with Locations((0, 86.380422877)):
            Circle(SKETCH6_2_R)
    sweep(path=sweep2_path.line, is_frenet=True)


solid = Compound([part.part, body_2.part, body_3.part])
